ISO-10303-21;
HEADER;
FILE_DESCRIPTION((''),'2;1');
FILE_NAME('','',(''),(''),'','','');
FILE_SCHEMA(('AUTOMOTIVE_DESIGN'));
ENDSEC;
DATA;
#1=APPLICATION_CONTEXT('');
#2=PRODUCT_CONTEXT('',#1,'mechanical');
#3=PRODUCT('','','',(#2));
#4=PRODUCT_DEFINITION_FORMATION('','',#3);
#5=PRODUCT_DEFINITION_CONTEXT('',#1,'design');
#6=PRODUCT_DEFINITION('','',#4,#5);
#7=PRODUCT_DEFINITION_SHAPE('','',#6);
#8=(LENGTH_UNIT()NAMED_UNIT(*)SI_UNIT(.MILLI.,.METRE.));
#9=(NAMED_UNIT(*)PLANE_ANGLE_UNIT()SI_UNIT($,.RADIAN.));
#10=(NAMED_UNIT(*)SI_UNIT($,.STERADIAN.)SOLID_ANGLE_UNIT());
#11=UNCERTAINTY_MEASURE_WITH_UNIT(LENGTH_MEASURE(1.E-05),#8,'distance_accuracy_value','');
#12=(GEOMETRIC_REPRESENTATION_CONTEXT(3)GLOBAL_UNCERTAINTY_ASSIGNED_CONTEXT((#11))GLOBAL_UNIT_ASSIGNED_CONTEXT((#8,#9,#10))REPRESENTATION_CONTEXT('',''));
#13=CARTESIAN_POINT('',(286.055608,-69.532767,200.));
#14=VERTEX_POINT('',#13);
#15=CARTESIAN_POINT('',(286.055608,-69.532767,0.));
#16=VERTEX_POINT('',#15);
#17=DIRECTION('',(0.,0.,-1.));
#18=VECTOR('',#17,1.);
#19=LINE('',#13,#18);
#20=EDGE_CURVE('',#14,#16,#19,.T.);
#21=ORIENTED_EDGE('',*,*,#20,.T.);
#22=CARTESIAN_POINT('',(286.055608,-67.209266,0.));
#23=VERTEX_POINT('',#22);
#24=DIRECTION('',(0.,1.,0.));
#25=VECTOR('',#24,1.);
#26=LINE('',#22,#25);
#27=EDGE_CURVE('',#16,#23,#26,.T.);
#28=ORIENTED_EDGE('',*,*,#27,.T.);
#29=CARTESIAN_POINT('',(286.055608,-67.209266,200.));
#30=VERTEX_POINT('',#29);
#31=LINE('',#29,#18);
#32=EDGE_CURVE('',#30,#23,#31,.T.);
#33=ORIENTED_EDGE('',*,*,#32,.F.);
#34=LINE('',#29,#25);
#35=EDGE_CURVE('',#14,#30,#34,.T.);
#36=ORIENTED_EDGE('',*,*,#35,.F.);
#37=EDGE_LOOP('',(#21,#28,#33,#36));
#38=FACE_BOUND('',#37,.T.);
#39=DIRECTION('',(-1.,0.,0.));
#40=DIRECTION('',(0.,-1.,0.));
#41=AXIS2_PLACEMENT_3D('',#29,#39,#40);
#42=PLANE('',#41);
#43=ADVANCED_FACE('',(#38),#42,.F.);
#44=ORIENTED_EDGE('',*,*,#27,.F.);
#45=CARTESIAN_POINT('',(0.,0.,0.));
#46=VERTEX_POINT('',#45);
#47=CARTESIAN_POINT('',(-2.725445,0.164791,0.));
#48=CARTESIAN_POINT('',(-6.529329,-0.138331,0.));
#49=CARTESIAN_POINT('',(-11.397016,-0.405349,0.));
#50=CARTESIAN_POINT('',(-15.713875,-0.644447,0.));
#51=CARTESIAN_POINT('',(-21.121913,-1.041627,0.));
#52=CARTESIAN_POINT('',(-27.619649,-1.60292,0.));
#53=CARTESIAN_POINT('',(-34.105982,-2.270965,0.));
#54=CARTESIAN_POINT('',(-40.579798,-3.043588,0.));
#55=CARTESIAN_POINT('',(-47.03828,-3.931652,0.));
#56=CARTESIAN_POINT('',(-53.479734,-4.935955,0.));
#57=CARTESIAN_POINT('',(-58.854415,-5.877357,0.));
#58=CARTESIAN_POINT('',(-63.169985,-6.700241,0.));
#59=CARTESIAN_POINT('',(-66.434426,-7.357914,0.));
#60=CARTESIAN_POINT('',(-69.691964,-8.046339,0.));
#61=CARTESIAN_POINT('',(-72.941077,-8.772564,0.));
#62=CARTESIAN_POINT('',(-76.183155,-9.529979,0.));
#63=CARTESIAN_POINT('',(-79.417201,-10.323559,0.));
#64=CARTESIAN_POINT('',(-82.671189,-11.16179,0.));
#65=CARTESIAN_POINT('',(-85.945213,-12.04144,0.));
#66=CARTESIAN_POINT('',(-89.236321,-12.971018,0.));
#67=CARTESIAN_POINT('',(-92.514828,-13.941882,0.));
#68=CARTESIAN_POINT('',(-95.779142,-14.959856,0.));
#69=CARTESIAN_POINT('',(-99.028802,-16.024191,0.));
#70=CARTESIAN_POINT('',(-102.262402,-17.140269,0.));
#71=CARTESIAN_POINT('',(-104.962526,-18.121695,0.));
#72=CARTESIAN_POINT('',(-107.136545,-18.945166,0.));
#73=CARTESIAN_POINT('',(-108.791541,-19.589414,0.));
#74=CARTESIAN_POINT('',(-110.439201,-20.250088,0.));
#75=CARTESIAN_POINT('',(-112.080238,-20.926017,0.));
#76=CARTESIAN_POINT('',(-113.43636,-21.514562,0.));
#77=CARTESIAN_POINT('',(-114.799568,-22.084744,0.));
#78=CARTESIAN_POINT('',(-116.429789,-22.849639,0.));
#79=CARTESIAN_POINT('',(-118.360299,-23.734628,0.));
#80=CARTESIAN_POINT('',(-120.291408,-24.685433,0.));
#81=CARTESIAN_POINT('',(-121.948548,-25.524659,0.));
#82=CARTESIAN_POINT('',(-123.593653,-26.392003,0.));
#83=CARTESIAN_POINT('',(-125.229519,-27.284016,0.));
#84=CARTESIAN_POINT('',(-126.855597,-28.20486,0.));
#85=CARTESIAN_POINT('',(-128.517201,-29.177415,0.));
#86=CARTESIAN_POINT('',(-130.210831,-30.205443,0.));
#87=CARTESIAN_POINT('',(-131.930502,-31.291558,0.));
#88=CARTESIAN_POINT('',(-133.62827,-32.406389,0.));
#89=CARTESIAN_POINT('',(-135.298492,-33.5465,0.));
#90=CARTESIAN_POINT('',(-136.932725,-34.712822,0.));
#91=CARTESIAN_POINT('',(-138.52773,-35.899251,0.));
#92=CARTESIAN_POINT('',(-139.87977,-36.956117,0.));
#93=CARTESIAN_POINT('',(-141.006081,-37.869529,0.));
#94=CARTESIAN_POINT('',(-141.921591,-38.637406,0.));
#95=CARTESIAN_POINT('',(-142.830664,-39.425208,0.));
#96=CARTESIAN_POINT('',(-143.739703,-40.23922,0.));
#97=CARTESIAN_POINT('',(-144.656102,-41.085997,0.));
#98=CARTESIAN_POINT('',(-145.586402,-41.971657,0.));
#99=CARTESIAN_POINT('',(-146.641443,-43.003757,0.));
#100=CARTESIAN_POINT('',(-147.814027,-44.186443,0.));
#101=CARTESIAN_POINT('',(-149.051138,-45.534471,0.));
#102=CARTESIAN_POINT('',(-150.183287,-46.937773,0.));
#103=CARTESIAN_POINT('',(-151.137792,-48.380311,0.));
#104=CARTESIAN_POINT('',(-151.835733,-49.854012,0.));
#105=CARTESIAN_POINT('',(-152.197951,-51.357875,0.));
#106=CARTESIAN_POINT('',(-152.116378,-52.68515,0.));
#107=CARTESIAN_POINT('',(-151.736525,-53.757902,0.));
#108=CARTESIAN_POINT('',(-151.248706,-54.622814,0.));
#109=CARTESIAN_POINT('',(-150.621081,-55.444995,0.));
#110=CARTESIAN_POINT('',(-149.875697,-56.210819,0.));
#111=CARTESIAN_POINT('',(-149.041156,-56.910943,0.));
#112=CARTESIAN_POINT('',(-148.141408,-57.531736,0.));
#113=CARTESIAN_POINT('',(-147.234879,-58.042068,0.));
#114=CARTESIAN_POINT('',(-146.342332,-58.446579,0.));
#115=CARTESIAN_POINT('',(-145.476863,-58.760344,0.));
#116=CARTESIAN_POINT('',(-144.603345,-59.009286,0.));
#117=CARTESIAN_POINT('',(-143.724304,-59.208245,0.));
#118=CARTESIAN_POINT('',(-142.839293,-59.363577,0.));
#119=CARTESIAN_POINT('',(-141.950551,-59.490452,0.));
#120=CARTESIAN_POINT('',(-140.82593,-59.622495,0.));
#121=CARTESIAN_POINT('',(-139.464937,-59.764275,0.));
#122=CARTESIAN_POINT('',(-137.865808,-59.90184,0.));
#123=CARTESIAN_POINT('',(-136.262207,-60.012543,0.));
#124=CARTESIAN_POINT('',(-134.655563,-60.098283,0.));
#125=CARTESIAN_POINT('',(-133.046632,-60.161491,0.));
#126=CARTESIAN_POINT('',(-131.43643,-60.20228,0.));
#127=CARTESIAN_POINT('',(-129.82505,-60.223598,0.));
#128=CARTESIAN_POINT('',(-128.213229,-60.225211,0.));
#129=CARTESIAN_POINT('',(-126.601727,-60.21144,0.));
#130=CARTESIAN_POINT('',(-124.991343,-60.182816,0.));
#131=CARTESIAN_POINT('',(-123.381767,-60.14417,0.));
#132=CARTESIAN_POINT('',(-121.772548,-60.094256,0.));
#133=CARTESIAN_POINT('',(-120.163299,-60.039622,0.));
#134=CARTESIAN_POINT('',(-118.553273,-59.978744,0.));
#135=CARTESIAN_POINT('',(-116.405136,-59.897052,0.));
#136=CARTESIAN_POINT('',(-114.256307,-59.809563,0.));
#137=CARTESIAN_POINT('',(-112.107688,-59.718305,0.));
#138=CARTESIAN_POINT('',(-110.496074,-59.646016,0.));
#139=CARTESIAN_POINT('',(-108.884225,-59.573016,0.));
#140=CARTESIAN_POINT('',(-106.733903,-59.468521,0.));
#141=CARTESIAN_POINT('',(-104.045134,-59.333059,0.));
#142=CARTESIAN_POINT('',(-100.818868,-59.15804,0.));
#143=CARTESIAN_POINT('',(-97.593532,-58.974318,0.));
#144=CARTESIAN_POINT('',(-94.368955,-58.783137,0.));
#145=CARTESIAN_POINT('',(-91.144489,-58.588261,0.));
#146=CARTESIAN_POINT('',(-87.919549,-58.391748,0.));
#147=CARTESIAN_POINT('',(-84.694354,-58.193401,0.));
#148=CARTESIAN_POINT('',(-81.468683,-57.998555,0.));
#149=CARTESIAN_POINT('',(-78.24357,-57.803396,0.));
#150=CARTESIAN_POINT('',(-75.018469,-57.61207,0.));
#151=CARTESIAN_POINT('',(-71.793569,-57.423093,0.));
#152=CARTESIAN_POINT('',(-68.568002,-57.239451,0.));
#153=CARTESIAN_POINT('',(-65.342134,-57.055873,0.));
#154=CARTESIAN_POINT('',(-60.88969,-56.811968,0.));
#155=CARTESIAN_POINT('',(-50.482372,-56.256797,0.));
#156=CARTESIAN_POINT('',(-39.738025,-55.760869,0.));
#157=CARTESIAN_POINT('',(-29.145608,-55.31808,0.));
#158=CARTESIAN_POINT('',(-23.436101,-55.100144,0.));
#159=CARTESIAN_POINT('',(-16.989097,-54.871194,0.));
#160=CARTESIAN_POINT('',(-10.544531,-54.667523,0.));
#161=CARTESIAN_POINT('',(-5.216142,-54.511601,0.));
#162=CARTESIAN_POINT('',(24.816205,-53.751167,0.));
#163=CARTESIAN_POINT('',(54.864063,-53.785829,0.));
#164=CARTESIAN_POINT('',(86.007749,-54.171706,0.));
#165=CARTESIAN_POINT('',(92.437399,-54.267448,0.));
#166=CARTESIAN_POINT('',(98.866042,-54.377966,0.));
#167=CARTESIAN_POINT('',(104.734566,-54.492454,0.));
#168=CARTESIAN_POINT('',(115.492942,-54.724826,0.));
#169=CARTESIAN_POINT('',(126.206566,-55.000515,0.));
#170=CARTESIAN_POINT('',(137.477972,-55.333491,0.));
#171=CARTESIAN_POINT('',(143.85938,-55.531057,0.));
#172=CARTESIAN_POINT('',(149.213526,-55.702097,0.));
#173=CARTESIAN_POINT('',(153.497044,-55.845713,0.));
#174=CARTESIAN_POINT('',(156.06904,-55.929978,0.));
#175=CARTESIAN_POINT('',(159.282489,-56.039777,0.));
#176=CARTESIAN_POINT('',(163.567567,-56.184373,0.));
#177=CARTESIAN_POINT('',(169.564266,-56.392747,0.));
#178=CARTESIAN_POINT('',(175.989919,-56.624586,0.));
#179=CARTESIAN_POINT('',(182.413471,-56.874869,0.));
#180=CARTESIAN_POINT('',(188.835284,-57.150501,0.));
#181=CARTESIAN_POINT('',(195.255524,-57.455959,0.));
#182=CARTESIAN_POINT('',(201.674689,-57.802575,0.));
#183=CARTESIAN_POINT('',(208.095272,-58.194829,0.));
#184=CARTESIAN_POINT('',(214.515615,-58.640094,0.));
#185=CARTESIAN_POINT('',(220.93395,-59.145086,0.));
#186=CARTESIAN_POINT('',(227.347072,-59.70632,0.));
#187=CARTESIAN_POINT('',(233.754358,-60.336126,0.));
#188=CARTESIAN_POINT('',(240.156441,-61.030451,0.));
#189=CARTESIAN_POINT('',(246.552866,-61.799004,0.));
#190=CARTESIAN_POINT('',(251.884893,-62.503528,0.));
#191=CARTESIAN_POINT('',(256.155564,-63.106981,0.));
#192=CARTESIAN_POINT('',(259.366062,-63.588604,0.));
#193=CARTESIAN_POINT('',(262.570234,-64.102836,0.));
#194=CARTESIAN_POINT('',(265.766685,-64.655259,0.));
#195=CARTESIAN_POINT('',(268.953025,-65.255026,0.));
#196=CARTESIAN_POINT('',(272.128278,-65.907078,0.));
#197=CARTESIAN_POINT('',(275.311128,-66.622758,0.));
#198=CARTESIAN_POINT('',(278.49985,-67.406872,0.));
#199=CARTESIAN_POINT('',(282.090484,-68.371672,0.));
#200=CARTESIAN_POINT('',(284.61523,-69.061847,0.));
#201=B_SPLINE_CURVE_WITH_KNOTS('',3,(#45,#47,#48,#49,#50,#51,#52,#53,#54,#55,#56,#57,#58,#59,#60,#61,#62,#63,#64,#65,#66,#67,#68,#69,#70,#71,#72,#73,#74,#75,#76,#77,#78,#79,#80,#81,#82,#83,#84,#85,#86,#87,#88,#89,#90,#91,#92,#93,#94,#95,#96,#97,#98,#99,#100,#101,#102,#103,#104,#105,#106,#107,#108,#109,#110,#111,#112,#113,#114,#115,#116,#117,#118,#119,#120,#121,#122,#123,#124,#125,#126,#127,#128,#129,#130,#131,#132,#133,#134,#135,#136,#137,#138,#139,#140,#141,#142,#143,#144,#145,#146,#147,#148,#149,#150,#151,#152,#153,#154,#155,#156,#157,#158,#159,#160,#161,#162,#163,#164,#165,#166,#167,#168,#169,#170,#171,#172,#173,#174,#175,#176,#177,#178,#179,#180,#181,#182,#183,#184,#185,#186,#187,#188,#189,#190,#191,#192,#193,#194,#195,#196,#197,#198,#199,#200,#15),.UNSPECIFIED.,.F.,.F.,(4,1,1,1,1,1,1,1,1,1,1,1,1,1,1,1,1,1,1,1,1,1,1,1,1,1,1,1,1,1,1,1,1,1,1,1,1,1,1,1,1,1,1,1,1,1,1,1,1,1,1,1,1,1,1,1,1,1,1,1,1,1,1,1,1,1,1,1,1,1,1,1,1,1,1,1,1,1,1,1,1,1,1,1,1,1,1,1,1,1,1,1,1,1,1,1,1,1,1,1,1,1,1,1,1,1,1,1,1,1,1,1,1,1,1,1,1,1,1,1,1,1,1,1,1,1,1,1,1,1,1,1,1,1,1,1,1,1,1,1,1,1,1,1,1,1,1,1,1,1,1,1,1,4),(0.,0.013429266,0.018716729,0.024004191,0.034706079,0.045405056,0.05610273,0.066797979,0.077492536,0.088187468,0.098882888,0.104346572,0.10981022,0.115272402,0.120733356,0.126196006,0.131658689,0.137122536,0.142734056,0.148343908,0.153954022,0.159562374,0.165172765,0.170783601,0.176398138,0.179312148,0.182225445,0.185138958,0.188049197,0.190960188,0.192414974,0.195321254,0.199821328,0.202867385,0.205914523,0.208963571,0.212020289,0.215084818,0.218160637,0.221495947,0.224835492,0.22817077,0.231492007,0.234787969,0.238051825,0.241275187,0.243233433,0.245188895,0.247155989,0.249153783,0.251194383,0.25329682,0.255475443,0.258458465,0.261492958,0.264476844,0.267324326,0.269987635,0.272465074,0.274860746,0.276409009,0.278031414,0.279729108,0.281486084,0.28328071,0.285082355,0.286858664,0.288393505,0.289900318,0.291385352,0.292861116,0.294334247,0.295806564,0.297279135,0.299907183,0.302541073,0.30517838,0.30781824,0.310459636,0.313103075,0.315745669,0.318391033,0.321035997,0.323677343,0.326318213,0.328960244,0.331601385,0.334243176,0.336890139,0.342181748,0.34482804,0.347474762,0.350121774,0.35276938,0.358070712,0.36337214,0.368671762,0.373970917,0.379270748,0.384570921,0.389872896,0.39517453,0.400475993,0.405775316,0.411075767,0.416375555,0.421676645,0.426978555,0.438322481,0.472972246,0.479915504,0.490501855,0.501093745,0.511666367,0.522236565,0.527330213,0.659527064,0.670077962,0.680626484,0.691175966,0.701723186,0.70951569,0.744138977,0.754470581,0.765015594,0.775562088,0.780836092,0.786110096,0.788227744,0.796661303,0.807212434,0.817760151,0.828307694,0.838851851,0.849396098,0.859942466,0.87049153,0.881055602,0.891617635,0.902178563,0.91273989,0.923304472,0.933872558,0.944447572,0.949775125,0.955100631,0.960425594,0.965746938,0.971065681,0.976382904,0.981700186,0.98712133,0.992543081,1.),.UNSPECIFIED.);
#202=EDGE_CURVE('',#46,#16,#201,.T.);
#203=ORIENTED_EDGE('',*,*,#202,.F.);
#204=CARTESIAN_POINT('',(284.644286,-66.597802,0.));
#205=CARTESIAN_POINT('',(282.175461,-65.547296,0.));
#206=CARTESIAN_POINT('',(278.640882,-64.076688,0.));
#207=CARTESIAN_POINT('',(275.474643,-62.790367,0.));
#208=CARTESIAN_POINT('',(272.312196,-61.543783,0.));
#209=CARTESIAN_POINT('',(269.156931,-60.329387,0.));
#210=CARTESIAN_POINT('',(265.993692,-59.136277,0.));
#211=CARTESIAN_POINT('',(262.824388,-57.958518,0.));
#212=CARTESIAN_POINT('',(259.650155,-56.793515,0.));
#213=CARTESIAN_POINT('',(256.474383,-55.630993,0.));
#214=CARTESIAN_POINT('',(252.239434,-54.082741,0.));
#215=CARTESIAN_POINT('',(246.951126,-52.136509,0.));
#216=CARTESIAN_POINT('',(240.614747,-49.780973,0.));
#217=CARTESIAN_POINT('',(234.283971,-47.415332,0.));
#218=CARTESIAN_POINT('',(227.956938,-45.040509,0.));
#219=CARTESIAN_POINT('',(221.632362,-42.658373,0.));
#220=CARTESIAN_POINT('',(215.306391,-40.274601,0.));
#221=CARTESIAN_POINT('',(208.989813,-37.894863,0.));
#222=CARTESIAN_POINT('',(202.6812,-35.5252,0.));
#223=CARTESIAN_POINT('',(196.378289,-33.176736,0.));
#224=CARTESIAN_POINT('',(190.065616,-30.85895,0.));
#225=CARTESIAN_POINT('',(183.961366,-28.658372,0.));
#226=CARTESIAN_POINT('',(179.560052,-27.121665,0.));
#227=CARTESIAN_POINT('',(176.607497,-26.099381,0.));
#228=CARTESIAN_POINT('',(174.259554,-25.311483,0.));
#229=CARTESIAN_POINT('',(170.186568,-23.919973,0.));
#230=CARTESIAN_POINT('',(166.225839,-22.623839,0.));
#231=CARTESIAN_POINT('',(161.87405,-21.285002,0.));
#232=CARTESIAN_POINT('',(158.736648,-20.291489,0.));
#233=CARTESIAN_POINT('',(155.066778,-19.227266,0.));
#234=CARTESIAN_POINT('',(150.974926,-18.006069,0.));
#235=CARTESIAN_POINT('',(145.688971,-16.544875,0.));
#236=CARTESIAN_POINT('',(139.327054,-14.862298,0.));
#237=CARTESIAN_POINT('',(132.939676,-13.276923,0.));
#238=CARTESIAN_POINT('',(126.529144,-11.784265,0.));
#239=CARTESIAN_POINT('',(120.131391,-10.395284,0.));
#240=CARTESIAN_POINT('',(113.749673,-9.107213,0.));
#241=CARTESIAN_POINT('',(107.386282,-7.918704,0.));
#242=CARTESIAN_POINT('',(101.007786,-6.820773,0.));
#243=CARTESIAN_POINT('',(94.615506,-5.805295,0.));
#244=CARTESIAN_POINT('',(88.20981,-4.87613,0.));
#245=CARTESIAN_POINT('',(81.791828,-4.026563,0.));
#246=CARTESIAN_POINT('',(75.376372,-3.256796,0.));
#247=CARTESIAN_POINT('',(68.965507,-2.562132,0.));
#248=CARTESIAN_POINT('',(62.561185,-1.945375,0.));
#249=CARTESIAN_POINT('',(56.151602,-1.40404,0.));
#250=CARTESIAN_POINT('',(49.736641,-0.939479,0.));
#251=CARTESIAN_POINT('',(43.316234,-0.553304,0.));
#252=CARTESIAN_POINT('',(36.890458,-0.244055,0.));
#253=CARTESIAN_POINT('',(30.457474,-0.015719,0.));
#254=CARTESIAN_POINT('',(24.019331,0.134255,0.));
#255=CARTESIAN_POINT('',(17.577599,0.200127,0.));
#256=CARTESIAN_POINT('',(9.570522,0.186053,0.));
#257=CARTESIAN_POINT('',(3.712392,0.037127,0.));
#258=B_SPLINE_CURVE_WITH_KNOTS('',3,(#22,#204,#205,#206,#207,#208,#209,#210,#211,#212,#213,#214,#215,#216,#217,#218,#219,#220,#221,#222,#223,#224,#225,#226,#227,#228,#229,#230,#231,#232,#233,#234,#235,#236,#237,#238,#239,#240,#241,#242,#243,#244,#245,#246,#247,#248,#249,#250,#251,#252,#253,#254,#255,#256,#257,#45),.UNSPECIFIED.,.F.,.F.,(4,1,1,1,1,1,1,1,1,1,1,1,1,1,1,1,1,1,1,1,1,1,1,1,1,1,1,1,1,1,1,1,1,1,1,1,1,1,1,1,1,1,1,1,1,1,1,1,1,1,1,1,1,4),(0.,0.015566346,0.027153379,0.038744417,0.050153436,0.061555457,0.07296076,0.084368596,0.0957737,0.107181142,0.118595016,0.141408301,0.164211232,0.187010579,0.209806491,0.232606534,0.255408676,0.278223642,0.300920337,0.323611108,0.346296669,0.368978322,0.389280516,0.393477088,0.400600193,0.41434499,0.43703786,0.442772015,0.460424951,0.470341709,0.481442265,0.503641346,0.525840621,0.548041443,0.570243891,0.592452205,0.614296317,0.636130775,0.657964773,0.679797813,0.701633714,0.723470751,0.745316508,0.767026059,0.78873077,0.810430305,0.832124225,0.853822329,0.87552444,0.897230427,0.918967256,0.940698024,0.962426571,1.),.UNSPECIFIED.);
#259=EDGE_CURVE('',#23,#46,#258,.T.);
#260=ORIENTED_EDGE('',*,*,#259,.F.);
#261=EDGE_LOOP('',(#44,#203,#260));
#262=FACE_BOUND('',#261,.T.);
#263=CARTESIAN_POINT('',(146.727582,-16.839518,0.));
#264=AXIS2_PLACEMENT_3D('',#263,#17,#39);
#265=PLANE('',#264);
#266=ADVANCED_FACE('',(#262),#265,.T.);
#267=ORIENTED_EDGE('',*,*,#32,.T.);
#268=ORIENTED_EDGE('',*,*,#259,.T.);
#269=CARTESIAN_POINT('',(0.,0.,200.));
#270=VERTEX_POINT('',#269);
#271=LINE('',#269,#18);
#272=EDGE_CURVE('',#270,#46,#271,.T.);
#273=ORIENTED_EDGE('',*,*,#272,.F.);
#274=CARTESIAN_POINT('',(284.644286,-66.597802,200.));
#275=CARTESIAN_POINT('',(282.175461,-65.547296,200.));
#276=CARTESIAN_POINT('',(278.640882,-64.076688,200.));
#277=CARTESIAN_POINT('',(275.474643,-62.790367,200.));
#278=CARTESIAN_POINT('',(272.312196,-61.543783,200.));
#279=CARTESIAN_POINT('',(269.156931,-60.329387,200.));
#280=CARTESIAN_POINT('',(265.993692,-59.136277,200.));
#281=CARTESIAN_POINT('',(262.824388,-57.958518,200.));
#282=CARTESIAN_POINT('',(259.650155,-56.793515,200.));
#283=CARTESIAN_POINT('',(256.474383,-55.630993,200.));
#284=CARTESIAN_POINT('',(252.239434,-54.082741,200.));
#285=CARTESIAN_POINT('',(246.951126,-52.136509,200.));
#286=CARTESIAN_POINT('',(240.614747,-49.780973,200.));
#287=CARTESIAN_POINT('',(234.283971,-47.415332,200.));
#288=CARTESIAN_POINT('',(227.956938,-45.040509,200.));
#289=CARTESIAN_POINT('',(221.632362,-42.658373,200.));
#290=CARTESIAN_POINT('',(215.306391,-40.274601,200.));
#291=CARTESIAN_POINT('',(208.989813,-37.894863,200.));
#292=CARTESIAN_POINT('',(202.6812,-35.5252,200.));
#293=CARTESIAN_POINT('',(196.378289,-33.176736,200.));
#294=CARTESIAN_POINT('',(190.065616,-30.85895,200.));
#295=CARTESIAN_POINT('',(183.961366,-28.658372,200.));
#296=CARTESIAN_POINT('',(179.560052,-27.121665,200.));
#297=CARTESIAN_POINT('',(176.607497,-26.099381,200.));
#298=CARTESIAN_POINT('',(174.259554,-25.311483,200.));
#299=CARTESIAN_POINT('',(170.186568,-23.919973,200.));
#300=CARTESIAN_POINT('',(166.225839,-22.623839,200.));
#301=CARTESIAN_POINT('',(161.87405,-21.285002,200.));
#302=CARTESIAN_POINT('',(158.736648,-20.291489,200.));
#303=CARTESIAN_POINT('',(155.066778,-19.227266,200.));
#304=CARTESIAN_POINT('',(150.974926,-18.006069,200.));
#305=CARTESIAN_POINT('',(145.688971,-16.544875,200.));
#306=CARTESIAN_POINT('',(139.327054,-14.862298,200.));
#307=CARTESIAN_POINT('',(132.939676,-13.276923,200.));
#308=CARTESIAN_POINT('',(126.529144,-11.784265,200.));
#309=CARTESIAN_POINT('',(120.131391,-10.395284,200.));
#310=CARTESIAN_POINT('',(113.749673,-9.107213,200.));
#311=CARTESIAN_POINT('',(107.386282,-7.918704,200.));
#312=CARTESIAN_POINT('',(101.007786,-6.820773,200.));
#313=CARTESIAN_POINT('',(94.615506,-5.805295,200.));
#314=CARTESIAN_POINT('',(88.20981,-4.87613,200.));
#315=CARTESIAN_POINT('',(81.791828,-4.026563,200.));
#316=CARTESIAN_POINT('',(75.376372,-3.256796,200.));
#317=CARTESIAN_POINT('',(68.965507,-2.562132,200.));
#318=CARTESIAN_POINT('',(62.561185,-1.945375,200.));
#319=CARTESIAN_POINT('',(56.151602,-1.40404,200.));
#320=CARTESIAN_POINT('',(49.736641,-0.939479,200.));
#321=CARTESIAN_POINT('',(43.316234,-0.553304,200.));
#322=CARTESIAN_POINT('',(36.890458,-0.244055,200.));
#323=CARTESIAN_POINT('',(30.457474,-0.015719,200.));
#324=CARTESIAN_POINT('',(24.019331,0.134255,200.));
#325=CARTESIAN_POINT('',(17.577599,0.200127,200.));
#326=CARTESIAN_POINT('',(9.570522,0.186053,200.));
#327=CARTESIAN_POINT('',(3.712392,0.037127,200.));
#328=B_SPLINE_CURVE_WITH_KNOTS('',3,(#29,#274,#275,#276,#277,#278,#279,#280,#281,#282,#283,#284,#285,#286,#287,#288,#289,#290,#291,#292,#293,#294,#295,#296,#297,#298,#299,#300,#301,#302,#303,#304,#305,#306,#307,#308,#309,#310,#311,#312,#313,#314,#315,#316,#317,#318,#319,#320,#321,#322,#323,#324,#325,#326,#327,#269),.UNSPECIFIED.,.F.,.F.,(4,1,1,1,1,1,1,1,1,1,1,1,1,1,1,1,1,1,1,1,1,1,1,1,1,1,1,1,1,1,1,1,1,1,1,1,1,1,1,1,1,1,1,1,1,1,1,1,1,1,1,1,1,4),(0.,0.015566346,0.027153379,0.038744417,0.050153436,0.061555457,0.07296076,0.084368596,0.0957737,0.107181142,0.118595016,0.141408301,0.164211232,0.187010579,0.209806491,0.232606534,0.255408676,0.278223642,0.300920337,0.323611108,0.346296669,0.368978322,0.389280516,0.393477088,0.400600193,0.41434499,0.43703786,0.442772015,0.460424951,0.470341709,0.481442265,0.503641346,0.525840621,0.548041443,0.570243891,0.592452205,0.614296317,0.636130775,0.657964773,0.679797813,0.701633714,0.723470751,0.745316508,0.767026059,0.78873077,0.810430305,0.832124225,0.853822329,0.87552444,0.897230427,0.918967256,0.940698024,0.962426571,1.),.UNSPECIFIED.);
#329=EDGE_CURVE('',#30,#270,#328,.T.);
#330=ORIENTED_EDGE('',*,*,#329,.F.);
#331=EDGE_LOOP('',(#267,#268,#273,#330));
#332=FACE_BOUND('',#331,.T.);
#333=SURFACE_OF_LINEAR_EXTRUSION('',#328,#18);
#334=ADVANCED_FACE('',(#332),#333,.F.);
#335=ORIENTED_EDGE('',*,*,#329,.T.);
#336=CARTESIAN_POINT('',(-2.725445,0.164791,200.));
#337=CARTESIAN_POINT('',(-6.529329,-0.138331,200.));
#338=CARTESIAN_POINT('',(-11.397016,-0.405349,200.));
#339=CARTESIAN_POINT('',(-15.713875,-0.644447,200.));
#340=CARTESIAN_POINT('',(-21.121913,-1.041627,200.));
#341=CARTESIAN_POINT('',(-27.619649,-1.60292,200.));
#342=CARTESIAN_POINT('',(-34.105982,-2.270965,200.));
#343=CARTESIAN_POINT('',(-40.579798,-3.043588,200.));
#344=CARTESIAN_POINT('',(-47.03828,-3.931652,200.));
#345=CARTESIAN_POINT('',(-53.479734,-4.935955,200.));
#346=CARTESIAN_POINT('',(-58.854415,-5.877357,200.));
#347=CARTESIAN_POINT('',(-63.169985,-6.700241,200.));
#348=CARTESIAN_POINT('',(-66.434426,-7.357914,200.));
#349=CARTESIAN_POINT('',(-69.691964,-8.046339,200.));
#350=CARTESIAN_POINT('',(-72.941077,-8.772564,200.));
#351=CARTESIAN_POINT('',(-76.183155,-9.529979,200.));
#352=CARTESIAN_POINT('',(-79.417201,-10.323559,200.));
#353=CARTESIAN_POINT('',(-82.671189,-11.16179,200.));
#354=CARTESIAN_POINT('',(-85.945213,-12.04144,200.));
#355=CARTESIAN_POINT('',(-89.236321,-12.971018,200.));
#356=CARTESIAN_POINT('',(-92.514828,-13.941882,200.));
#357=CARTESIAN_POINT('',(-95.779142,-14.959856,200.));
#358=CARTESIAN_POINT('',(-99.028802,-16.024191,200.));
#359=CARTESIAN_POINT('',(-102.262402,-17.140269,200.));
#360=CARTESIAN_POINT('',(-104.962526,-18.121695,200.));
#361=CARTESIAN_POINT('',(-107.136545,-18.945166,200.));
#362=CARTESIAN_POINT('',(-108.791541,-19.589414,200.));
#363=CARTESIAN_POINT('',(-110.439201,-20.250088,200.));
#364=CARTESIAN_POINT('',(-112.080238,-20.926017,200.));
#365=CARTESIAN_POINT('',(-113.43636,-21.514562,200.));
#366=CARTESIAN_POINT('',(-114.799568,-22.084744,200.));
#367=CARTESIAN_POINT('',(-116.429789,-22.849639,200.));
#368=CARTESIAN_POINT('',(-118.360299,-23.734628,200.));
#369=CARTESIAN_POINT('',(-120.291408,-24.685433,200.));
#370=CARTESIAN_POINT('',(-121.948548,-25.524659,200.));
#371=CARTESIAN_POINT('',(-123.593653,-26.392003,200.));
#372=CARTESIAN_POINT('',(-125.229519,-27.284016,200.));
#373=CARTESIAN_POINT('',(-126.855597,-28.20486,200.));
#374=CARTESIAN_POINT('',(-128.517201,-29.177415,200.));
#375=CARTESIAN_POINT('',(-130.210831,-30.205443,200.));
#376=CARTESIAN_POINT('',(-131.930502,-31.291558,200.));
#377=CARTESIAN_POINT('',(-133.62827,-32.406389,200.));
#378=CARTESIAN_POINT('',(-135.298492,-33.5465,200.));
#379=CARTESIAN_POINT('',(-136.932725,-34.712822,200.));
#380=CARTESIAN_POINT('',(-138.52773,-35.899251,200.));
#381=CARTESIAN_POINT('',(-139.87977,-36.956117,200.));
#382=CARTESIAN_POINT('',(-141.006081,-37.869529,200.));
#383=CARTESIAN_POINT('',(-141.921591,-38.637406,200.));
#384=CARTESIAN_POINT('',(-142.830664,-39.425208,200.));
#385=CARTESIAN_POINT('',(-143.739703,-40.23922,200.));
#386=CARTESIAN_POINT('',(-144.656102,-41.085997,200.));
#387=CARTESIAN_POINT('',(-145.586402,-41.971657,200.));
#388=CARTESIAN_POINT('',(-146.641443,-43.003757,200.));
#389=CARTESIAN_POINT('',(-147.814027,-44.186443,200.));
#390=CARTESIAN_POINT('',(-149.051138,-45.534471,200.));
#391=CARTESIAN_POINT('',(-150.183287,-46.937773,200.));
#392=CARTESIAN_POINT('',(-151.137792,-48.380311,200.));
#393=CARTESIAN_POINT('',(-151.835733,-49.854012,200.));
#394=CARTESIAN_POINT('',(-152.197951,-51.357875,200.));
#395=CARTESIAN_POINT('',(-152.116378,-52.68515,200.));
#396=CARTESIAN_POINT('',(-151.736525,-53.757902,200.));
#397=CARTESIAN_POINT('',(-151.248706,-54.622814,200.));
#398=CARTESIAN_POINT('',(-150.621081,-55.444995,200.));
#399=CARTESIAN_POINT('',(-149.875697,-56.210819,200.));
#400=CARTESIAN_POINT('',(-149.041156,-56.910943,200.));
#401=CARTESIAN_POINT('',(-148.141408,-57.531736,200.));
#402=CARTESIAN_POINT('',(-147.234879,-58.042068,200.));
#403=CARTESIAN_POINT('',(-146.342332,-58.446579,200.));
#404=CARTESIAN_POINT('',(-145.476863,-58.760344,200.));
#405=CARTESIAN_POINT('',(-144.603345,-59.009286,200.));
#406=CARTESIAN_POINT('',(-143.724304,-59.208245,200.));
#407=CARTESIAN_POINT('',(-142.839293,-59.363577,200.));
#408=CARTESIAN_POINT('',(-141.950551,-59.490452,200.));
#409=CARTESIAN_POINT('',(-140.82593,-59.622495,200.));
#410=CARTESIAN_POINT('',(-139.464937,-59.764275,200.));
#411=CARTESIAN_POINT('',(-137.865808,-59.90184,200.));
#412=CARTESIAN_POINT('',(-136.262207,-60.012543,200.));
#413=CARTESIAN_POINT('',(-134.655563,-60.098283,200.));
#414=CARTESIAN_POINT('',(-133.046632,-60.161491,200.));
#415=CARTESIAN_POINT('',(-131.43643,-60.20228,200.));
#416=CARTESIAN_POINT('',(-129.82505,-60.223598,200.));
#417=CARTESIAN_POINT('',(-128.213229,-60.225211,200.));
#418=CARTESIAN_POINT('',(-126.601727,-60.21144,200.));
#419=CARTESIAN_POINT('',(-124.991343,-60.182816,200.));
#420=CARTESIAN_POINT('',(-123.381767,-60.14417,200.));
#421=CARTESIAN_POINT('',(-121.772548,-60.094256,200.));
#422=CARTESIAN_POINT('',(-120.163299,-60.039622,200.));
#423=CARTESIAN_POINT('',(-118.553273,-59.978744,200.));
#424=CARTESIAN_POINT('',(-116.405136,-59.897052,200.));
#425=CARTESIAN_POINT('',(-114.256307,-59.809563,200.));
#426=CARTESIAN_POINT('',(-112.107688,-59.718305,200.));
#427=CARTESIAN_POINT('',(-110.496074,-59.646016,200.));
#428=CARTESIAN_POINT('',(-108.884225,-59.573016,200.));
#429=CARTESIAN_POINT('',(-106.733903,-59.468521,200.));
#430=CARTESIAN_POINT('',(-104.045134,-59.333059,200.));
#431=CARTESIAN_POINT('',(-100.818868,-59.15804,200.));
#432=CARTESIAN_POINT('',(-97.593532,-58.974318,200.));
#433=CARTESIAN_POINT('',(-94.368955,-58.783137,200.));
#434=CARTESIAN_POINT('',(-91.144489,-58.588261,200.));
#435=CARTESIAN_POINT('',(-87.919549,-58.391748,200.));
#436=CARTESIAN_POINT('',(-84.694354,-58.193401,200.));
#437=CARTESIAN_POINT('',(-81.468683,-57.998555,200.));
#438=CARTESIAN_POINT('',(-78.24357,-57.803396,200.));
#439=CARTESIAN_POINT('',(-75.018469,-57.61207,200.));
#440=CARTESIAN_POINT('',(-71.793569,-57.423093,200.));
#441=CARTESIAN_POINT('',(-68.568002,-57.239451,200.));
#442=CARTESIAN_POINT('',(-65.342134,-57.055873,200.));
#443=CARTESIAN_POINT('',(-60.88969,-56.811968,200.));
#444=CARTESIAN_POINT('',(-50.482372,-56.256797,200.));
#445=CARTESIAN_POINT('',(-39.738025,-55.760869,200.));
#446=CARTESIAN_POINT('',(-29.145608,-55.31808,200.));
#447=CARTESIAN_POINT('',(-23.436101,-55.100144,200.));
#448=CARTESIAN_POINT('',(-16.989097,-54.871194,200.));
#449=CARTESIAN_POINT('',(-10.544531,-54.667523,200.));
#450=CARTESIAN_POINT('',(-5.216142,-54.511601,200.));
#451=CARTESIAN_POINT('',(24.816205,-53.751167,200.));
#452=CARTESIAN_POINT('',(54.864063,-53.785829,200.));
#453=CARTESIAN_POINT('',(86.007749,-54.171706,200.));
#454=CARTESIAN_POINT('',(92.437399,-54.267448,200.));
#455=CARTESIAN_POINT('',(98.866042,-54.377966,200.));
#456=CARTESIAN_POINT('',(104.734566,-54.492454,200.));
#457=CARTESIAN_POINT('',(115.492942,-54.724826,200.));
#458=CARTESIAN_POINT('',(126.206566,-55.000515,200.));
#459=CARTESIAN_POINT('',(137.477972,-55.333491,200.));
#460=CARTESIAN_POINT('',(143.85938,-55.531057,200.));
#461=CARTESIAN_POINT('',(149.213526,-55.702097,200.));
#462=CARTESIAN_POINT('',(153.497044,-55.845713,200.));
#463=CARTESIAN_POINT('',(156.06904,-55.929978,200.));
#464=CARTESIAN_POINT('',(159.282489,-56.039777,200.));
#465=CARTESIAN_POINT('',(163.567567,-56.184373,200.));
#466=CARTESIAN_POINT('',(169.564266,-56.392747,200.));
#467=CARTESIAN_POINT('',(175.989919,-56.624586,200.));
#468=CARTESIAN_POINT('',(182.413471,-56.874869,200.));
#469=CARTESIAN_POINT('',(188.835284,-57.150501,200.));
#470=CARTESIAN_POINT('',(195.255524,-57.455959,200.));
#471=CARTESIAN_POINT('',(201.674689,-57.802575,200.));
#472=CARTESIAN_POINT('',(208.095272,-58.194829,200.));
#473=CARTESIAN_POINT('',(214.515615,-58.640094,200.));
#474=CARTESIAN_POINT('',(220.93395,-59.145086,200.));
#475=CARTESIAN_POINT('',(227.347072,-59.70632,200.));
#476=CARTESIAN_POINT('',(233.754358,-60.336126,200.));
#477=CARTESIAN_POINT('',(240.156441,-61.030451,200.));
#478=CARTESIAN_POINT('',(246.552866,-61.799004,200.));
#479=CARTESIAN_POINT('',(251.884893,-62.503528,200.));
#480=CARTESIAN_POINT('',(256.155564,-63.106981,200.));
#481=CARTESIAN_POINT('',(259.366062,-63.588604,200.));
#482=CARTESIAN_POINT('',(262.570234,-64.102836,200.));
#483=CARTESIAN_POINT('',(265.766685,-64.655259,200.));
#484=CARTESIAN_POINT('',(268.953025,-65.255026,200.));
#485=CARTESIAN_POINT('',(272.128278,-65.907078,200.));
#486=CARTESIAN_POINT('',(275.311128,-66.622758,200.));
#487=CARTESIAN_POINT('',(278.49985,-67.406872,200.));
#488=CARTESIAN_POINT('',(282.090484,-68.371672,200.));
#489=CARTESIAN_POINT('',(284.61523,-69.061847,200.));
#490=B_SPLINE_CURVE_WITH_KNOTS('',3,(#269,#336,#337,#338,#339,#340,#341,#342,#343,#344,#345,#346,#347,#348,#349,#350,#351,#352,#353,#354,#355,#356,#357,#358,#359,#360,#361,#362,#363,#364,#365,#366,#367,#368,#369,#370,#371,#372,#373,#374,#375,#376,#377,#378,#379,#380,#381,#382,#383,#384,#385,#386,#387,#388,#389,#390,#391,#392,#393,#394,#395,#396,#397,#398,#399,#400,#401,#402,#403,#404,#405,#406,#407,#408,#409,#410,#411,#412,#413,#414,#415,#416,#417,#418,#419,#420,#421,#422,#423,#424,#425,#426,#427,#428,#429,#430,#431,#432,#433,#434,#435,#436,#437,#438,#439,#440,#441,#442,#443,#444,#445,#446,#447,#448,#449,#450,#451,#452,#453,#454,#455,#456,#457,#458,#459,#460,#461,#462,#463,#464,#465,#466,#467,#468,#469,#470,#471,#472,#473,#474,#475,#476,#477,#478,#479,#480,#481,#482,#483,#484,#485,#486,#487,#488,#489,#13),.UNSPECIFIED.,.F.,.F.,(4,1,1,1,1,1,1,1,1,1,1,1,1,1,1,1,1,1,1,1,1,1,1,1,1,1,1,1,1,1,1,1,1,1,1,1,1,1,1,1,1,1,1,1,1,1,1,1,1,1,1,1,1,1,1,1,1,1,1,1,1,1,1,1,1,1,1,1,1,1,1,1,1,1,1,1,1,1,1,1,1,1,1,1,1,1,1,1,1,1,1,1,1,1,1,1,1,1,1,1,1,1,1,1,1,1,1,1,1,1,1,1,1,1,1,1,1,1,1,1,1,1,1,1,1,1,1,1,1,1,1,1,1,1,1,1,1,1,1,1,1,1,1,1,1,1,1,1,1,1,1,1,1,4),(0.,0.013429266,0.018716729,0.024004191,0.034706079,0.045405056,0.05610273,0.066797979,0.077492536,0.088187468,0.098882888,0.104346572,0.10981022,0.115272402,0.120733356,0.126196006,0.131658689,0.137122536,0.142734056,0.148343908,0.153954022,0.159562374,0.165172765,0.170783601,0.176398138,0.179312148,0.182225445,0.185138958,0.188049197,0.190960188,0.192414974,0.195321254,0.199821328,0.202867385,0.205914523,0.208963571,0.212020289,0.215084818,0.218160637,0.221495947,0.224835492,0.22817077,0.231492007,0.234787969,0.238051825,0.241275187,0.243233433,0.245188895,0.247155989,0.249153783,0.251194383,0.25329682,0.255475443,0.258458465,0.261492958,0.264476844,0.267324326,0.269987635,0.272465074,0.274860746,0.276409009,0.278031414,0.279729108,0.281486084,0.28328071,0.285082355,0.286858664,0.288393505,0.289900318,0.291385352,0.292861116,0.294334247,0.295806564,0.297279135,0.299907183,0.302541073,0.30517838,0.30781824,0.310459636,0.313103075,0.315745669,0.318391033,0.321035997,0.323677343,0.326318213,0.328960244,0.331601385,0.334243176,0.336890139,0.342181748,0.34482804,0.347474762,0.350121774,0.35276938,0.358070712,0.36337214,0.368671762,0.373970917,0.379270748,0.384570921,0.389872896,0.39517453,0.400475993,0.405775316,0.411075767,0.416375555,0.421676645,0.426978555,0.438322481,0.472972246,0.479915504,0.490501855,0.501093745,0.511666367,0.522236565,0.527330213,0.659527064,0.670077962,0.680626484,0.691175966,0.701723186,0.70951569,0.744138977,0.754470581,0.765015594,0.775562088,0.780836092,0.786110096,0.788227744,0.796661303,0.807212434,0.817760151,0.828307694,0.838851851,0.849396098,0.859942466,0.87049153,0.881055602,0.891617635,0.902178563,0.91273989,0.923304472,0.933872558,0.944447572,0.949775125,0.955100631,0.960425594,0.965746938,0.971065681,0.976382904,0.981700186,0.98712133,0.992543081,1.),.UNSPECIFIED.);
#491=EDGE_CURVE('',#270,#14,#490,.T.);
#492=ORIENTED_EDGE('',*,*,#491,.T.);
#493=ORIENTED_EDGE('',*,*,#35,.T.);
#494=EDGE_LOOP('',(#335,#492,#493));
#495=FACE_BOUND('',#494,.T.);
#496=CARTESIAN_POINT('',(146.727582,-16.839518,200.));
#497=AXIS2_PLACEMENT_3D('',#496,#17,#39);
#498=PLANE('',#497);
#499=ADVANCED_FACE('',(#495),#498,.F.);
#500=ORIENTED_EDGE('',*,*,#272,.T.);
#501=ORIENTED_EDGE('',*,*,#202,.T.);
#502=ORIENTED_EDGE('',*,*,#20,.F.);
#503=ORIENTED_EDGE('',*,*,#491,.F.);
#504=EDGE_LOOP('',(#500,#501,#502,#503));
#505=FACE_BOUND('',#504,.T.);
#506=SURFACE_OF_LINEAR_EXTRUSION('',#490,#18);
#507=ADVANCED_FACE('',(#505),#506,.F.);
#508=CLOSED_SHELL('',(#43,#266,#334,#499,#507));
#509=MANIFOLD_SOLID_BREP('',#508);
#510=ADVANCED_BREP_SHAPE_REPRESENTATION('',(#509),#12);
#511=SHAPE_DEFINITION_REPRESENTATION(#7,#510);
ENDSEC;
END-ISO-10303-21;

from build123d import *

# Parameters (mm, degrees)
EXTRUDE_1_DEPTH = 200


with BuildPart() as part:
    # 草图2 → 凸台-拉伸1 (new body)
    with BuildSketch(Plane.XY):
        with BuildLine():
            Line((286.055608228, -67.209266366), (286.055608228, -69.532766948))
            add(Edge.make_bspline(
                [(0, 0), (-2.725444694, 0.16479075), (-6.529329099, -0.138331244), (-11.397016018, -0.405348512), (-15.713874629, -0.64444661), (-21.121913216, -1.041627107), (-27.619648691, -1.602920243), (-34.105982036, -2.270964793), (-40.579797503, -3.043587525), (-47.038279723, -3.931652037), (-53.479734263, -4.935955417), (-58.854414584, -5.877356762), (-63.169985024, -6.70024074), (-66.434425741, -7.357914384), (-69.691963936, -8.046339188), (-72.941077321, -8.77256441), (-76.183155264, -9.529979299), (-79.417200801, -10.323559167), (-82.671188627, -11.161789957), (-85.94521275, -12.041440017), (-89.23632109, -12.971017746), (-92.514827659, -13.941881935), (-95.77914161, -14.959856385), (-99.028801968, -16.02419143), (-102.262401726, -17.140269432), (-104.962526081, -18.121694649), (-107.136544699, -18.945165575), (-108.791541193, -19.589414389), (-110.439200679, -20.250087878), (-112.080238251, -20.92601665), (-113.436360447, -21.514562153), (-114.799567501, -22.084744275), (-116.429788539, -22.849639447), (-118.360299468, -23.734628468), (-120.291408253, -24.685432883), (-121.948548066, -25.524658599), (-123.593652926, -26.392003285), (-125.229519218, -27.284016058), (-126.855596581, -28.204859765), (-128.517200827, -29.17741547), (-130.21083081, -30.205442861), (-131.930502415, -31.291558288), (-133.628269536, -32.406389376), (-135.298492236, -33.546499842), (-136.932725116, -34.7128219), (-138.527730347, -35.899250832), (-139.87977025, -36.956117217), (-141.006081118, -37.869529498), (-141.921591236, -38.637405862), (-142.830664323, -39.425208217), (-143.739703161, -40.239219522), (-144.656101653, -41.085997114), (-145.586401749, -41.971657092), (-146.641442979, -43.003756741), (-147.814027187, -44.186443378), (-149.051137738, -45.534471175), (-150.183287122, -46.937773376), (-151.137791588, -48.380311299), (-151.835733309, -49.854011685), (-152.197950673, -51.357874625), (-152.116377567, -52.6851503), (-151.736524949, -53.757901692), (-151.248705518, -54.622813972), (-150.621080517, -55.444995082), (-149.875697311, -56.210818528), (-149.041156237, -56.910942554), (-148.141407974, -57.531735767), (-147.234879227, -58.042067674), (-146.342332479, -58.446578755), (-145.47686329, -58.760343946), (-144.603345187, -59.009285546), (-143.724303936, -59.208245301), (-142.839292945, -59.363577497), (-141.950551403, -59.490451701), (-140.825929854, -59.622495162), (-139.464937172, -59.764274743), (-137.865807953, -59.901840496), (-136.262207013, -60.012543487), (-134.655562674, -60.098283022), (-133.046632135, -60.161490781), (-131.436429613, -60.202280242), (-129.825050101, -60.223598267), (-128.213228638, -60.225210722), (-126.601727435, -60.211439507), (-124.991342664, -60.182816005), (-123.381767087, -60.144170461), (-121.772547624, -60.094255948), (-120.163299382, -60.039622339), (-118.553272856, -59.97874382), (-116.405135775, -59.897052051), (-114.25630744, -59.809563299), (-112.107687845, -59.718305361), (-110.496074249, -59.646015596), (-108.884224596, -59.573015661), (-106.733902854, -59.468520942), (-104.045134479, -59.333058566), (-100.818867527, -59.158040382), (-97.593531503, -58.974317976), (-94.368955004, -58.783136756), (-91.144489426, -58.588261445), (-87.919549107, -58.391747611), (-84.694353955, -58.193400641), (-81.468682834, -57.998554673), (-78.243570418, -57.803396432), (-75.018468811, -57.612070176), (-71.793569138, -57.423092565), (-68.568002165, -57.239451184), (-65.342134172, -57.055873416), (-60.889689655, -56.811968085), (-50.4823717, -56.256797171), (-39.738024807, -55.760868752), (-29.145608314, -55.318080066), (-23.436100514, -55.100144163), (-16.989096881, -54.871193717), (-10.544531059, -54.66752336), (-5.216141596, -54.511600586), (24.816205374, -53.75116662), (54.864063261, -53.785828636), (86.007749154, -54.171705504), (92.437398561, -54.267447737), (98.866042453, -54.377966038), (104.734565572, -54.492454463), (115.492942115, -54.724826001), (126.206565517, -55.000515422), (137.477971799, -55.333491378), (143.859380276, -55.531056564), (149.213526009, -55.702096911), (153.497044422, -55.845713453), (156.069039561, -55.929977897), (159.282488984, -56.03977671), (163.567567314, -56.184372648), (169.564265612, -56.392746778), (175.989918576, -56.62458583), (182.413470777, -56.87486903), (188.835284325, -57.150500523), (195.255523834, -57.455959443), (201.674688689, -57.802575463), (208.095271976, -58.19482851), (214.515615191, -58.640093564), (220.933950248, -59.145085891), (227.347072378, -59.706320062), (233.754357613, -60.33612596), (240.156440818, -61.030450763), (246.55286602, -61.79900368), (251.884892916, -62.503528456), (256.155563709, -63.106980732), (259.366061645, -63.58860377), (262.570233843, -64.102835954), (265.766684956, -64.655259055), (268.953024845, -65.255025736), (272.128277639, -65.907077835), (275.311127883, -66.622757601), (278.499849813, -67.406872411), (282.09048433, -68.371672385), (284.615229937, -69.061847319), (286.055608228, -69.532766948)],
                knots=[0, 0, 0, 0, 0.013429266, 0.018716729, 0.024004191, 0.034706079, 0.045405056, 0.05610273, 0.066797979, 0.077492536, 0.088187468, 0.098882888, 0.104346572, 0.10981022, 0.115272402, 0.120733356, 0.126196006, 0.131658689, 0.137122536, 0.142734056, 0.148343908, 0.153954022, 0.159562374, 0.165172765, 0.170783601, 0.176398138, 0.179312148, 0.182225445, 0.185138958, 0.188049197, 0.190960188, 0.192414974, 0.195321254, 0.199821328, 0.202867385, 0.205914523, 0.208963571, 0.212020289, 0.215084818, 0.218160637, 0.221495947, 0.224835492, 0.22817077, 0.231492007, 0.234787969, 0.238051825, 0.241275187, 0.243233433, 0.245188895, 0.247155989, 0.249153783, 0.251194383, 0.25329682, 0.255475443, 0.258458465, 0.261492958, 0.264476844, 0.267324326, 0.269987635, 0.272465074, 0.274860746, 0.276409009, 0.278031414, 0.279729108, 0.281486084, 0.28328071, 0.285082355, 0.286858664, 0.288393505, 0.289900318, 0.291385352, 0.292861116, 0.294334247, 0.295806564, 0.297279135, 0.299907183, 0.302541073, 0.30517838, 0.30781824, 0.310459636, 0.313103075, 0.315745669, 0.318391033, 0.321035997, 0.323677343, 0.326318213, 0.328960244, 0.331601385, 0.334243176, 0.336890139, 0.342181748, 0.34482804, 0.347474762, 0.350121774, 0.35276938, 0.358070712, 0.36337214, 0.368671762, 0.373970917, 0.379270748, 0.384570921, 0.389872896, 0.39517453, 0.400475993, 0.405775316, 0.411075767, 0.416375555, 0.421676645, 0.426978555, 0.438322481, 0.472972246, 0.479915504, 0.490501855, 0.501093745, 0.511666367, 0.522236565, 0.527330213, 0.659527064, 0.670077962, 0.680626484, 0.691175966, 0.701723186, 0.70951569, 0.744138977, 0.754470581, 0.765015594, 0.775562088, 0.780836092, 0.786110096, 0.788227744, 0.796661303, 0.807212434, 0.817760151, 0.828307694, 0.838851851, 0.849396098, 0.859942466, 0.87049153, 0.881055602, 0.891617635, 0.902178563, 0.91273989, 0.923304472, 0.933872558, 0.944447572, 0.949775125, 0.955100631, 0.960425594, 0.965746938, 0.971065681, 0.976382904, 0.981700186, 0.98712133, 0.992543081, 1, 1, 1, 1], degree=3))
            add(Edge.make_bspline(
                [(0, 0), (3.712392232, 0.037127334), (9.570522066, 0.186052889), (17.577599083, 0.200126776), (24.019331444, 0.134254504), (30.457474332, -0.015719002), (36.890458068, -0.244055135), (43.316233695, -0.553304169), (49.736640637, -0.939479239), (56.15160193, -1.404040156), (62.561185069, -1.945375189), (68.96550657, -2.562132424), (75.376371972, -3.256796096), (81.791827945, -4.026562677), (88.209809749, -4.87613039), (94.615506116, -5.805295025), (101.007785919, -6.820773201), (107.386282088, -7.918704488), (113.749672512, -9.107213058), (120.131390676, -10.395283622), (126.529144262, -11.784264987), (132.939676049, -13.276922811), (139.327053916, -14.862297703), (145.68897099, -16.544874515), (150.974926486, -18.006068596), (155.066777624, -19.22726589), (158.736648193, -20.291488778), (161.874049685, -21.285002204), (166.22583865, -22.623839086), (170.186568218, -23.919973411), (174.259554435, -25.311482978), (176.607497155, -26.099380522), (179.560051762, -27.121665131), (183.961366382, -28.658371966), (190.065615766, -30.858949911), (196.378289161, -33.176735586), (202.681199965, -35.525199799), (208.989812562, -37.894863302), (215.306391481, -40.274601471), (221.63236241, -42.658373138), (227.956938485, -45.040508925), (234.283971005, -47.415332102), (240.614746748, -49.780972664), (246.951126246, -52.136508839), (252.239434164, -54.082740818), (256.474382905, -55.630992907), (259.650155279, -56.793515297), (262.824387684, -57.95851836), (265.9936918, -59.136276991), (269.156931358, -60.329386909), (272.312196321, -61.543783056), (275.474642785, -62.790366989), (278.640882203, -64.076687559), (282.175461463, -65.54729581), (284.644285935, -66.597802105), (286.055608228, -67.209266366)],
                knots=[0, 0, 0, 0, 0.037573429, 0.059301976, 0.081032744, 0.102769573, 0.12447556, 0.146177671, 0.167875775, 0.189569695, 0.21126923, 0.232973941, 0.254683492, 0.276529249, 0.298366286, 0.320202187, 0.342035227, 0.363869225, 0.385703683, 0.407547795, 0.429756109, 0.451958557, 0.474159379, 0.496358654, 0.518557735, 0.529658291, 0.539575049, 0.557227985, 0.56296214, 0.58565501, 0.599399807, 0.606522912, 0.610719484, 0.631021678, 0.653703331, 0.676388892, 0.699079663, 0.721776358, 0.744591324, 0.767393466, 0.790193509, 0.812989421, 0.835788768, 0.858591699, 0.881404984, 0.892818858, 0.9042263, 0.915631404, 0.92703924, 0.938444543, 0.949846564, 0.961255583, 0.972846621, 0.984433654, 1, 1, 1, 1], degree=3))
        make_face()
    extrude(amount=EXTRUDE_1_DEPTH)


solid = part.part
